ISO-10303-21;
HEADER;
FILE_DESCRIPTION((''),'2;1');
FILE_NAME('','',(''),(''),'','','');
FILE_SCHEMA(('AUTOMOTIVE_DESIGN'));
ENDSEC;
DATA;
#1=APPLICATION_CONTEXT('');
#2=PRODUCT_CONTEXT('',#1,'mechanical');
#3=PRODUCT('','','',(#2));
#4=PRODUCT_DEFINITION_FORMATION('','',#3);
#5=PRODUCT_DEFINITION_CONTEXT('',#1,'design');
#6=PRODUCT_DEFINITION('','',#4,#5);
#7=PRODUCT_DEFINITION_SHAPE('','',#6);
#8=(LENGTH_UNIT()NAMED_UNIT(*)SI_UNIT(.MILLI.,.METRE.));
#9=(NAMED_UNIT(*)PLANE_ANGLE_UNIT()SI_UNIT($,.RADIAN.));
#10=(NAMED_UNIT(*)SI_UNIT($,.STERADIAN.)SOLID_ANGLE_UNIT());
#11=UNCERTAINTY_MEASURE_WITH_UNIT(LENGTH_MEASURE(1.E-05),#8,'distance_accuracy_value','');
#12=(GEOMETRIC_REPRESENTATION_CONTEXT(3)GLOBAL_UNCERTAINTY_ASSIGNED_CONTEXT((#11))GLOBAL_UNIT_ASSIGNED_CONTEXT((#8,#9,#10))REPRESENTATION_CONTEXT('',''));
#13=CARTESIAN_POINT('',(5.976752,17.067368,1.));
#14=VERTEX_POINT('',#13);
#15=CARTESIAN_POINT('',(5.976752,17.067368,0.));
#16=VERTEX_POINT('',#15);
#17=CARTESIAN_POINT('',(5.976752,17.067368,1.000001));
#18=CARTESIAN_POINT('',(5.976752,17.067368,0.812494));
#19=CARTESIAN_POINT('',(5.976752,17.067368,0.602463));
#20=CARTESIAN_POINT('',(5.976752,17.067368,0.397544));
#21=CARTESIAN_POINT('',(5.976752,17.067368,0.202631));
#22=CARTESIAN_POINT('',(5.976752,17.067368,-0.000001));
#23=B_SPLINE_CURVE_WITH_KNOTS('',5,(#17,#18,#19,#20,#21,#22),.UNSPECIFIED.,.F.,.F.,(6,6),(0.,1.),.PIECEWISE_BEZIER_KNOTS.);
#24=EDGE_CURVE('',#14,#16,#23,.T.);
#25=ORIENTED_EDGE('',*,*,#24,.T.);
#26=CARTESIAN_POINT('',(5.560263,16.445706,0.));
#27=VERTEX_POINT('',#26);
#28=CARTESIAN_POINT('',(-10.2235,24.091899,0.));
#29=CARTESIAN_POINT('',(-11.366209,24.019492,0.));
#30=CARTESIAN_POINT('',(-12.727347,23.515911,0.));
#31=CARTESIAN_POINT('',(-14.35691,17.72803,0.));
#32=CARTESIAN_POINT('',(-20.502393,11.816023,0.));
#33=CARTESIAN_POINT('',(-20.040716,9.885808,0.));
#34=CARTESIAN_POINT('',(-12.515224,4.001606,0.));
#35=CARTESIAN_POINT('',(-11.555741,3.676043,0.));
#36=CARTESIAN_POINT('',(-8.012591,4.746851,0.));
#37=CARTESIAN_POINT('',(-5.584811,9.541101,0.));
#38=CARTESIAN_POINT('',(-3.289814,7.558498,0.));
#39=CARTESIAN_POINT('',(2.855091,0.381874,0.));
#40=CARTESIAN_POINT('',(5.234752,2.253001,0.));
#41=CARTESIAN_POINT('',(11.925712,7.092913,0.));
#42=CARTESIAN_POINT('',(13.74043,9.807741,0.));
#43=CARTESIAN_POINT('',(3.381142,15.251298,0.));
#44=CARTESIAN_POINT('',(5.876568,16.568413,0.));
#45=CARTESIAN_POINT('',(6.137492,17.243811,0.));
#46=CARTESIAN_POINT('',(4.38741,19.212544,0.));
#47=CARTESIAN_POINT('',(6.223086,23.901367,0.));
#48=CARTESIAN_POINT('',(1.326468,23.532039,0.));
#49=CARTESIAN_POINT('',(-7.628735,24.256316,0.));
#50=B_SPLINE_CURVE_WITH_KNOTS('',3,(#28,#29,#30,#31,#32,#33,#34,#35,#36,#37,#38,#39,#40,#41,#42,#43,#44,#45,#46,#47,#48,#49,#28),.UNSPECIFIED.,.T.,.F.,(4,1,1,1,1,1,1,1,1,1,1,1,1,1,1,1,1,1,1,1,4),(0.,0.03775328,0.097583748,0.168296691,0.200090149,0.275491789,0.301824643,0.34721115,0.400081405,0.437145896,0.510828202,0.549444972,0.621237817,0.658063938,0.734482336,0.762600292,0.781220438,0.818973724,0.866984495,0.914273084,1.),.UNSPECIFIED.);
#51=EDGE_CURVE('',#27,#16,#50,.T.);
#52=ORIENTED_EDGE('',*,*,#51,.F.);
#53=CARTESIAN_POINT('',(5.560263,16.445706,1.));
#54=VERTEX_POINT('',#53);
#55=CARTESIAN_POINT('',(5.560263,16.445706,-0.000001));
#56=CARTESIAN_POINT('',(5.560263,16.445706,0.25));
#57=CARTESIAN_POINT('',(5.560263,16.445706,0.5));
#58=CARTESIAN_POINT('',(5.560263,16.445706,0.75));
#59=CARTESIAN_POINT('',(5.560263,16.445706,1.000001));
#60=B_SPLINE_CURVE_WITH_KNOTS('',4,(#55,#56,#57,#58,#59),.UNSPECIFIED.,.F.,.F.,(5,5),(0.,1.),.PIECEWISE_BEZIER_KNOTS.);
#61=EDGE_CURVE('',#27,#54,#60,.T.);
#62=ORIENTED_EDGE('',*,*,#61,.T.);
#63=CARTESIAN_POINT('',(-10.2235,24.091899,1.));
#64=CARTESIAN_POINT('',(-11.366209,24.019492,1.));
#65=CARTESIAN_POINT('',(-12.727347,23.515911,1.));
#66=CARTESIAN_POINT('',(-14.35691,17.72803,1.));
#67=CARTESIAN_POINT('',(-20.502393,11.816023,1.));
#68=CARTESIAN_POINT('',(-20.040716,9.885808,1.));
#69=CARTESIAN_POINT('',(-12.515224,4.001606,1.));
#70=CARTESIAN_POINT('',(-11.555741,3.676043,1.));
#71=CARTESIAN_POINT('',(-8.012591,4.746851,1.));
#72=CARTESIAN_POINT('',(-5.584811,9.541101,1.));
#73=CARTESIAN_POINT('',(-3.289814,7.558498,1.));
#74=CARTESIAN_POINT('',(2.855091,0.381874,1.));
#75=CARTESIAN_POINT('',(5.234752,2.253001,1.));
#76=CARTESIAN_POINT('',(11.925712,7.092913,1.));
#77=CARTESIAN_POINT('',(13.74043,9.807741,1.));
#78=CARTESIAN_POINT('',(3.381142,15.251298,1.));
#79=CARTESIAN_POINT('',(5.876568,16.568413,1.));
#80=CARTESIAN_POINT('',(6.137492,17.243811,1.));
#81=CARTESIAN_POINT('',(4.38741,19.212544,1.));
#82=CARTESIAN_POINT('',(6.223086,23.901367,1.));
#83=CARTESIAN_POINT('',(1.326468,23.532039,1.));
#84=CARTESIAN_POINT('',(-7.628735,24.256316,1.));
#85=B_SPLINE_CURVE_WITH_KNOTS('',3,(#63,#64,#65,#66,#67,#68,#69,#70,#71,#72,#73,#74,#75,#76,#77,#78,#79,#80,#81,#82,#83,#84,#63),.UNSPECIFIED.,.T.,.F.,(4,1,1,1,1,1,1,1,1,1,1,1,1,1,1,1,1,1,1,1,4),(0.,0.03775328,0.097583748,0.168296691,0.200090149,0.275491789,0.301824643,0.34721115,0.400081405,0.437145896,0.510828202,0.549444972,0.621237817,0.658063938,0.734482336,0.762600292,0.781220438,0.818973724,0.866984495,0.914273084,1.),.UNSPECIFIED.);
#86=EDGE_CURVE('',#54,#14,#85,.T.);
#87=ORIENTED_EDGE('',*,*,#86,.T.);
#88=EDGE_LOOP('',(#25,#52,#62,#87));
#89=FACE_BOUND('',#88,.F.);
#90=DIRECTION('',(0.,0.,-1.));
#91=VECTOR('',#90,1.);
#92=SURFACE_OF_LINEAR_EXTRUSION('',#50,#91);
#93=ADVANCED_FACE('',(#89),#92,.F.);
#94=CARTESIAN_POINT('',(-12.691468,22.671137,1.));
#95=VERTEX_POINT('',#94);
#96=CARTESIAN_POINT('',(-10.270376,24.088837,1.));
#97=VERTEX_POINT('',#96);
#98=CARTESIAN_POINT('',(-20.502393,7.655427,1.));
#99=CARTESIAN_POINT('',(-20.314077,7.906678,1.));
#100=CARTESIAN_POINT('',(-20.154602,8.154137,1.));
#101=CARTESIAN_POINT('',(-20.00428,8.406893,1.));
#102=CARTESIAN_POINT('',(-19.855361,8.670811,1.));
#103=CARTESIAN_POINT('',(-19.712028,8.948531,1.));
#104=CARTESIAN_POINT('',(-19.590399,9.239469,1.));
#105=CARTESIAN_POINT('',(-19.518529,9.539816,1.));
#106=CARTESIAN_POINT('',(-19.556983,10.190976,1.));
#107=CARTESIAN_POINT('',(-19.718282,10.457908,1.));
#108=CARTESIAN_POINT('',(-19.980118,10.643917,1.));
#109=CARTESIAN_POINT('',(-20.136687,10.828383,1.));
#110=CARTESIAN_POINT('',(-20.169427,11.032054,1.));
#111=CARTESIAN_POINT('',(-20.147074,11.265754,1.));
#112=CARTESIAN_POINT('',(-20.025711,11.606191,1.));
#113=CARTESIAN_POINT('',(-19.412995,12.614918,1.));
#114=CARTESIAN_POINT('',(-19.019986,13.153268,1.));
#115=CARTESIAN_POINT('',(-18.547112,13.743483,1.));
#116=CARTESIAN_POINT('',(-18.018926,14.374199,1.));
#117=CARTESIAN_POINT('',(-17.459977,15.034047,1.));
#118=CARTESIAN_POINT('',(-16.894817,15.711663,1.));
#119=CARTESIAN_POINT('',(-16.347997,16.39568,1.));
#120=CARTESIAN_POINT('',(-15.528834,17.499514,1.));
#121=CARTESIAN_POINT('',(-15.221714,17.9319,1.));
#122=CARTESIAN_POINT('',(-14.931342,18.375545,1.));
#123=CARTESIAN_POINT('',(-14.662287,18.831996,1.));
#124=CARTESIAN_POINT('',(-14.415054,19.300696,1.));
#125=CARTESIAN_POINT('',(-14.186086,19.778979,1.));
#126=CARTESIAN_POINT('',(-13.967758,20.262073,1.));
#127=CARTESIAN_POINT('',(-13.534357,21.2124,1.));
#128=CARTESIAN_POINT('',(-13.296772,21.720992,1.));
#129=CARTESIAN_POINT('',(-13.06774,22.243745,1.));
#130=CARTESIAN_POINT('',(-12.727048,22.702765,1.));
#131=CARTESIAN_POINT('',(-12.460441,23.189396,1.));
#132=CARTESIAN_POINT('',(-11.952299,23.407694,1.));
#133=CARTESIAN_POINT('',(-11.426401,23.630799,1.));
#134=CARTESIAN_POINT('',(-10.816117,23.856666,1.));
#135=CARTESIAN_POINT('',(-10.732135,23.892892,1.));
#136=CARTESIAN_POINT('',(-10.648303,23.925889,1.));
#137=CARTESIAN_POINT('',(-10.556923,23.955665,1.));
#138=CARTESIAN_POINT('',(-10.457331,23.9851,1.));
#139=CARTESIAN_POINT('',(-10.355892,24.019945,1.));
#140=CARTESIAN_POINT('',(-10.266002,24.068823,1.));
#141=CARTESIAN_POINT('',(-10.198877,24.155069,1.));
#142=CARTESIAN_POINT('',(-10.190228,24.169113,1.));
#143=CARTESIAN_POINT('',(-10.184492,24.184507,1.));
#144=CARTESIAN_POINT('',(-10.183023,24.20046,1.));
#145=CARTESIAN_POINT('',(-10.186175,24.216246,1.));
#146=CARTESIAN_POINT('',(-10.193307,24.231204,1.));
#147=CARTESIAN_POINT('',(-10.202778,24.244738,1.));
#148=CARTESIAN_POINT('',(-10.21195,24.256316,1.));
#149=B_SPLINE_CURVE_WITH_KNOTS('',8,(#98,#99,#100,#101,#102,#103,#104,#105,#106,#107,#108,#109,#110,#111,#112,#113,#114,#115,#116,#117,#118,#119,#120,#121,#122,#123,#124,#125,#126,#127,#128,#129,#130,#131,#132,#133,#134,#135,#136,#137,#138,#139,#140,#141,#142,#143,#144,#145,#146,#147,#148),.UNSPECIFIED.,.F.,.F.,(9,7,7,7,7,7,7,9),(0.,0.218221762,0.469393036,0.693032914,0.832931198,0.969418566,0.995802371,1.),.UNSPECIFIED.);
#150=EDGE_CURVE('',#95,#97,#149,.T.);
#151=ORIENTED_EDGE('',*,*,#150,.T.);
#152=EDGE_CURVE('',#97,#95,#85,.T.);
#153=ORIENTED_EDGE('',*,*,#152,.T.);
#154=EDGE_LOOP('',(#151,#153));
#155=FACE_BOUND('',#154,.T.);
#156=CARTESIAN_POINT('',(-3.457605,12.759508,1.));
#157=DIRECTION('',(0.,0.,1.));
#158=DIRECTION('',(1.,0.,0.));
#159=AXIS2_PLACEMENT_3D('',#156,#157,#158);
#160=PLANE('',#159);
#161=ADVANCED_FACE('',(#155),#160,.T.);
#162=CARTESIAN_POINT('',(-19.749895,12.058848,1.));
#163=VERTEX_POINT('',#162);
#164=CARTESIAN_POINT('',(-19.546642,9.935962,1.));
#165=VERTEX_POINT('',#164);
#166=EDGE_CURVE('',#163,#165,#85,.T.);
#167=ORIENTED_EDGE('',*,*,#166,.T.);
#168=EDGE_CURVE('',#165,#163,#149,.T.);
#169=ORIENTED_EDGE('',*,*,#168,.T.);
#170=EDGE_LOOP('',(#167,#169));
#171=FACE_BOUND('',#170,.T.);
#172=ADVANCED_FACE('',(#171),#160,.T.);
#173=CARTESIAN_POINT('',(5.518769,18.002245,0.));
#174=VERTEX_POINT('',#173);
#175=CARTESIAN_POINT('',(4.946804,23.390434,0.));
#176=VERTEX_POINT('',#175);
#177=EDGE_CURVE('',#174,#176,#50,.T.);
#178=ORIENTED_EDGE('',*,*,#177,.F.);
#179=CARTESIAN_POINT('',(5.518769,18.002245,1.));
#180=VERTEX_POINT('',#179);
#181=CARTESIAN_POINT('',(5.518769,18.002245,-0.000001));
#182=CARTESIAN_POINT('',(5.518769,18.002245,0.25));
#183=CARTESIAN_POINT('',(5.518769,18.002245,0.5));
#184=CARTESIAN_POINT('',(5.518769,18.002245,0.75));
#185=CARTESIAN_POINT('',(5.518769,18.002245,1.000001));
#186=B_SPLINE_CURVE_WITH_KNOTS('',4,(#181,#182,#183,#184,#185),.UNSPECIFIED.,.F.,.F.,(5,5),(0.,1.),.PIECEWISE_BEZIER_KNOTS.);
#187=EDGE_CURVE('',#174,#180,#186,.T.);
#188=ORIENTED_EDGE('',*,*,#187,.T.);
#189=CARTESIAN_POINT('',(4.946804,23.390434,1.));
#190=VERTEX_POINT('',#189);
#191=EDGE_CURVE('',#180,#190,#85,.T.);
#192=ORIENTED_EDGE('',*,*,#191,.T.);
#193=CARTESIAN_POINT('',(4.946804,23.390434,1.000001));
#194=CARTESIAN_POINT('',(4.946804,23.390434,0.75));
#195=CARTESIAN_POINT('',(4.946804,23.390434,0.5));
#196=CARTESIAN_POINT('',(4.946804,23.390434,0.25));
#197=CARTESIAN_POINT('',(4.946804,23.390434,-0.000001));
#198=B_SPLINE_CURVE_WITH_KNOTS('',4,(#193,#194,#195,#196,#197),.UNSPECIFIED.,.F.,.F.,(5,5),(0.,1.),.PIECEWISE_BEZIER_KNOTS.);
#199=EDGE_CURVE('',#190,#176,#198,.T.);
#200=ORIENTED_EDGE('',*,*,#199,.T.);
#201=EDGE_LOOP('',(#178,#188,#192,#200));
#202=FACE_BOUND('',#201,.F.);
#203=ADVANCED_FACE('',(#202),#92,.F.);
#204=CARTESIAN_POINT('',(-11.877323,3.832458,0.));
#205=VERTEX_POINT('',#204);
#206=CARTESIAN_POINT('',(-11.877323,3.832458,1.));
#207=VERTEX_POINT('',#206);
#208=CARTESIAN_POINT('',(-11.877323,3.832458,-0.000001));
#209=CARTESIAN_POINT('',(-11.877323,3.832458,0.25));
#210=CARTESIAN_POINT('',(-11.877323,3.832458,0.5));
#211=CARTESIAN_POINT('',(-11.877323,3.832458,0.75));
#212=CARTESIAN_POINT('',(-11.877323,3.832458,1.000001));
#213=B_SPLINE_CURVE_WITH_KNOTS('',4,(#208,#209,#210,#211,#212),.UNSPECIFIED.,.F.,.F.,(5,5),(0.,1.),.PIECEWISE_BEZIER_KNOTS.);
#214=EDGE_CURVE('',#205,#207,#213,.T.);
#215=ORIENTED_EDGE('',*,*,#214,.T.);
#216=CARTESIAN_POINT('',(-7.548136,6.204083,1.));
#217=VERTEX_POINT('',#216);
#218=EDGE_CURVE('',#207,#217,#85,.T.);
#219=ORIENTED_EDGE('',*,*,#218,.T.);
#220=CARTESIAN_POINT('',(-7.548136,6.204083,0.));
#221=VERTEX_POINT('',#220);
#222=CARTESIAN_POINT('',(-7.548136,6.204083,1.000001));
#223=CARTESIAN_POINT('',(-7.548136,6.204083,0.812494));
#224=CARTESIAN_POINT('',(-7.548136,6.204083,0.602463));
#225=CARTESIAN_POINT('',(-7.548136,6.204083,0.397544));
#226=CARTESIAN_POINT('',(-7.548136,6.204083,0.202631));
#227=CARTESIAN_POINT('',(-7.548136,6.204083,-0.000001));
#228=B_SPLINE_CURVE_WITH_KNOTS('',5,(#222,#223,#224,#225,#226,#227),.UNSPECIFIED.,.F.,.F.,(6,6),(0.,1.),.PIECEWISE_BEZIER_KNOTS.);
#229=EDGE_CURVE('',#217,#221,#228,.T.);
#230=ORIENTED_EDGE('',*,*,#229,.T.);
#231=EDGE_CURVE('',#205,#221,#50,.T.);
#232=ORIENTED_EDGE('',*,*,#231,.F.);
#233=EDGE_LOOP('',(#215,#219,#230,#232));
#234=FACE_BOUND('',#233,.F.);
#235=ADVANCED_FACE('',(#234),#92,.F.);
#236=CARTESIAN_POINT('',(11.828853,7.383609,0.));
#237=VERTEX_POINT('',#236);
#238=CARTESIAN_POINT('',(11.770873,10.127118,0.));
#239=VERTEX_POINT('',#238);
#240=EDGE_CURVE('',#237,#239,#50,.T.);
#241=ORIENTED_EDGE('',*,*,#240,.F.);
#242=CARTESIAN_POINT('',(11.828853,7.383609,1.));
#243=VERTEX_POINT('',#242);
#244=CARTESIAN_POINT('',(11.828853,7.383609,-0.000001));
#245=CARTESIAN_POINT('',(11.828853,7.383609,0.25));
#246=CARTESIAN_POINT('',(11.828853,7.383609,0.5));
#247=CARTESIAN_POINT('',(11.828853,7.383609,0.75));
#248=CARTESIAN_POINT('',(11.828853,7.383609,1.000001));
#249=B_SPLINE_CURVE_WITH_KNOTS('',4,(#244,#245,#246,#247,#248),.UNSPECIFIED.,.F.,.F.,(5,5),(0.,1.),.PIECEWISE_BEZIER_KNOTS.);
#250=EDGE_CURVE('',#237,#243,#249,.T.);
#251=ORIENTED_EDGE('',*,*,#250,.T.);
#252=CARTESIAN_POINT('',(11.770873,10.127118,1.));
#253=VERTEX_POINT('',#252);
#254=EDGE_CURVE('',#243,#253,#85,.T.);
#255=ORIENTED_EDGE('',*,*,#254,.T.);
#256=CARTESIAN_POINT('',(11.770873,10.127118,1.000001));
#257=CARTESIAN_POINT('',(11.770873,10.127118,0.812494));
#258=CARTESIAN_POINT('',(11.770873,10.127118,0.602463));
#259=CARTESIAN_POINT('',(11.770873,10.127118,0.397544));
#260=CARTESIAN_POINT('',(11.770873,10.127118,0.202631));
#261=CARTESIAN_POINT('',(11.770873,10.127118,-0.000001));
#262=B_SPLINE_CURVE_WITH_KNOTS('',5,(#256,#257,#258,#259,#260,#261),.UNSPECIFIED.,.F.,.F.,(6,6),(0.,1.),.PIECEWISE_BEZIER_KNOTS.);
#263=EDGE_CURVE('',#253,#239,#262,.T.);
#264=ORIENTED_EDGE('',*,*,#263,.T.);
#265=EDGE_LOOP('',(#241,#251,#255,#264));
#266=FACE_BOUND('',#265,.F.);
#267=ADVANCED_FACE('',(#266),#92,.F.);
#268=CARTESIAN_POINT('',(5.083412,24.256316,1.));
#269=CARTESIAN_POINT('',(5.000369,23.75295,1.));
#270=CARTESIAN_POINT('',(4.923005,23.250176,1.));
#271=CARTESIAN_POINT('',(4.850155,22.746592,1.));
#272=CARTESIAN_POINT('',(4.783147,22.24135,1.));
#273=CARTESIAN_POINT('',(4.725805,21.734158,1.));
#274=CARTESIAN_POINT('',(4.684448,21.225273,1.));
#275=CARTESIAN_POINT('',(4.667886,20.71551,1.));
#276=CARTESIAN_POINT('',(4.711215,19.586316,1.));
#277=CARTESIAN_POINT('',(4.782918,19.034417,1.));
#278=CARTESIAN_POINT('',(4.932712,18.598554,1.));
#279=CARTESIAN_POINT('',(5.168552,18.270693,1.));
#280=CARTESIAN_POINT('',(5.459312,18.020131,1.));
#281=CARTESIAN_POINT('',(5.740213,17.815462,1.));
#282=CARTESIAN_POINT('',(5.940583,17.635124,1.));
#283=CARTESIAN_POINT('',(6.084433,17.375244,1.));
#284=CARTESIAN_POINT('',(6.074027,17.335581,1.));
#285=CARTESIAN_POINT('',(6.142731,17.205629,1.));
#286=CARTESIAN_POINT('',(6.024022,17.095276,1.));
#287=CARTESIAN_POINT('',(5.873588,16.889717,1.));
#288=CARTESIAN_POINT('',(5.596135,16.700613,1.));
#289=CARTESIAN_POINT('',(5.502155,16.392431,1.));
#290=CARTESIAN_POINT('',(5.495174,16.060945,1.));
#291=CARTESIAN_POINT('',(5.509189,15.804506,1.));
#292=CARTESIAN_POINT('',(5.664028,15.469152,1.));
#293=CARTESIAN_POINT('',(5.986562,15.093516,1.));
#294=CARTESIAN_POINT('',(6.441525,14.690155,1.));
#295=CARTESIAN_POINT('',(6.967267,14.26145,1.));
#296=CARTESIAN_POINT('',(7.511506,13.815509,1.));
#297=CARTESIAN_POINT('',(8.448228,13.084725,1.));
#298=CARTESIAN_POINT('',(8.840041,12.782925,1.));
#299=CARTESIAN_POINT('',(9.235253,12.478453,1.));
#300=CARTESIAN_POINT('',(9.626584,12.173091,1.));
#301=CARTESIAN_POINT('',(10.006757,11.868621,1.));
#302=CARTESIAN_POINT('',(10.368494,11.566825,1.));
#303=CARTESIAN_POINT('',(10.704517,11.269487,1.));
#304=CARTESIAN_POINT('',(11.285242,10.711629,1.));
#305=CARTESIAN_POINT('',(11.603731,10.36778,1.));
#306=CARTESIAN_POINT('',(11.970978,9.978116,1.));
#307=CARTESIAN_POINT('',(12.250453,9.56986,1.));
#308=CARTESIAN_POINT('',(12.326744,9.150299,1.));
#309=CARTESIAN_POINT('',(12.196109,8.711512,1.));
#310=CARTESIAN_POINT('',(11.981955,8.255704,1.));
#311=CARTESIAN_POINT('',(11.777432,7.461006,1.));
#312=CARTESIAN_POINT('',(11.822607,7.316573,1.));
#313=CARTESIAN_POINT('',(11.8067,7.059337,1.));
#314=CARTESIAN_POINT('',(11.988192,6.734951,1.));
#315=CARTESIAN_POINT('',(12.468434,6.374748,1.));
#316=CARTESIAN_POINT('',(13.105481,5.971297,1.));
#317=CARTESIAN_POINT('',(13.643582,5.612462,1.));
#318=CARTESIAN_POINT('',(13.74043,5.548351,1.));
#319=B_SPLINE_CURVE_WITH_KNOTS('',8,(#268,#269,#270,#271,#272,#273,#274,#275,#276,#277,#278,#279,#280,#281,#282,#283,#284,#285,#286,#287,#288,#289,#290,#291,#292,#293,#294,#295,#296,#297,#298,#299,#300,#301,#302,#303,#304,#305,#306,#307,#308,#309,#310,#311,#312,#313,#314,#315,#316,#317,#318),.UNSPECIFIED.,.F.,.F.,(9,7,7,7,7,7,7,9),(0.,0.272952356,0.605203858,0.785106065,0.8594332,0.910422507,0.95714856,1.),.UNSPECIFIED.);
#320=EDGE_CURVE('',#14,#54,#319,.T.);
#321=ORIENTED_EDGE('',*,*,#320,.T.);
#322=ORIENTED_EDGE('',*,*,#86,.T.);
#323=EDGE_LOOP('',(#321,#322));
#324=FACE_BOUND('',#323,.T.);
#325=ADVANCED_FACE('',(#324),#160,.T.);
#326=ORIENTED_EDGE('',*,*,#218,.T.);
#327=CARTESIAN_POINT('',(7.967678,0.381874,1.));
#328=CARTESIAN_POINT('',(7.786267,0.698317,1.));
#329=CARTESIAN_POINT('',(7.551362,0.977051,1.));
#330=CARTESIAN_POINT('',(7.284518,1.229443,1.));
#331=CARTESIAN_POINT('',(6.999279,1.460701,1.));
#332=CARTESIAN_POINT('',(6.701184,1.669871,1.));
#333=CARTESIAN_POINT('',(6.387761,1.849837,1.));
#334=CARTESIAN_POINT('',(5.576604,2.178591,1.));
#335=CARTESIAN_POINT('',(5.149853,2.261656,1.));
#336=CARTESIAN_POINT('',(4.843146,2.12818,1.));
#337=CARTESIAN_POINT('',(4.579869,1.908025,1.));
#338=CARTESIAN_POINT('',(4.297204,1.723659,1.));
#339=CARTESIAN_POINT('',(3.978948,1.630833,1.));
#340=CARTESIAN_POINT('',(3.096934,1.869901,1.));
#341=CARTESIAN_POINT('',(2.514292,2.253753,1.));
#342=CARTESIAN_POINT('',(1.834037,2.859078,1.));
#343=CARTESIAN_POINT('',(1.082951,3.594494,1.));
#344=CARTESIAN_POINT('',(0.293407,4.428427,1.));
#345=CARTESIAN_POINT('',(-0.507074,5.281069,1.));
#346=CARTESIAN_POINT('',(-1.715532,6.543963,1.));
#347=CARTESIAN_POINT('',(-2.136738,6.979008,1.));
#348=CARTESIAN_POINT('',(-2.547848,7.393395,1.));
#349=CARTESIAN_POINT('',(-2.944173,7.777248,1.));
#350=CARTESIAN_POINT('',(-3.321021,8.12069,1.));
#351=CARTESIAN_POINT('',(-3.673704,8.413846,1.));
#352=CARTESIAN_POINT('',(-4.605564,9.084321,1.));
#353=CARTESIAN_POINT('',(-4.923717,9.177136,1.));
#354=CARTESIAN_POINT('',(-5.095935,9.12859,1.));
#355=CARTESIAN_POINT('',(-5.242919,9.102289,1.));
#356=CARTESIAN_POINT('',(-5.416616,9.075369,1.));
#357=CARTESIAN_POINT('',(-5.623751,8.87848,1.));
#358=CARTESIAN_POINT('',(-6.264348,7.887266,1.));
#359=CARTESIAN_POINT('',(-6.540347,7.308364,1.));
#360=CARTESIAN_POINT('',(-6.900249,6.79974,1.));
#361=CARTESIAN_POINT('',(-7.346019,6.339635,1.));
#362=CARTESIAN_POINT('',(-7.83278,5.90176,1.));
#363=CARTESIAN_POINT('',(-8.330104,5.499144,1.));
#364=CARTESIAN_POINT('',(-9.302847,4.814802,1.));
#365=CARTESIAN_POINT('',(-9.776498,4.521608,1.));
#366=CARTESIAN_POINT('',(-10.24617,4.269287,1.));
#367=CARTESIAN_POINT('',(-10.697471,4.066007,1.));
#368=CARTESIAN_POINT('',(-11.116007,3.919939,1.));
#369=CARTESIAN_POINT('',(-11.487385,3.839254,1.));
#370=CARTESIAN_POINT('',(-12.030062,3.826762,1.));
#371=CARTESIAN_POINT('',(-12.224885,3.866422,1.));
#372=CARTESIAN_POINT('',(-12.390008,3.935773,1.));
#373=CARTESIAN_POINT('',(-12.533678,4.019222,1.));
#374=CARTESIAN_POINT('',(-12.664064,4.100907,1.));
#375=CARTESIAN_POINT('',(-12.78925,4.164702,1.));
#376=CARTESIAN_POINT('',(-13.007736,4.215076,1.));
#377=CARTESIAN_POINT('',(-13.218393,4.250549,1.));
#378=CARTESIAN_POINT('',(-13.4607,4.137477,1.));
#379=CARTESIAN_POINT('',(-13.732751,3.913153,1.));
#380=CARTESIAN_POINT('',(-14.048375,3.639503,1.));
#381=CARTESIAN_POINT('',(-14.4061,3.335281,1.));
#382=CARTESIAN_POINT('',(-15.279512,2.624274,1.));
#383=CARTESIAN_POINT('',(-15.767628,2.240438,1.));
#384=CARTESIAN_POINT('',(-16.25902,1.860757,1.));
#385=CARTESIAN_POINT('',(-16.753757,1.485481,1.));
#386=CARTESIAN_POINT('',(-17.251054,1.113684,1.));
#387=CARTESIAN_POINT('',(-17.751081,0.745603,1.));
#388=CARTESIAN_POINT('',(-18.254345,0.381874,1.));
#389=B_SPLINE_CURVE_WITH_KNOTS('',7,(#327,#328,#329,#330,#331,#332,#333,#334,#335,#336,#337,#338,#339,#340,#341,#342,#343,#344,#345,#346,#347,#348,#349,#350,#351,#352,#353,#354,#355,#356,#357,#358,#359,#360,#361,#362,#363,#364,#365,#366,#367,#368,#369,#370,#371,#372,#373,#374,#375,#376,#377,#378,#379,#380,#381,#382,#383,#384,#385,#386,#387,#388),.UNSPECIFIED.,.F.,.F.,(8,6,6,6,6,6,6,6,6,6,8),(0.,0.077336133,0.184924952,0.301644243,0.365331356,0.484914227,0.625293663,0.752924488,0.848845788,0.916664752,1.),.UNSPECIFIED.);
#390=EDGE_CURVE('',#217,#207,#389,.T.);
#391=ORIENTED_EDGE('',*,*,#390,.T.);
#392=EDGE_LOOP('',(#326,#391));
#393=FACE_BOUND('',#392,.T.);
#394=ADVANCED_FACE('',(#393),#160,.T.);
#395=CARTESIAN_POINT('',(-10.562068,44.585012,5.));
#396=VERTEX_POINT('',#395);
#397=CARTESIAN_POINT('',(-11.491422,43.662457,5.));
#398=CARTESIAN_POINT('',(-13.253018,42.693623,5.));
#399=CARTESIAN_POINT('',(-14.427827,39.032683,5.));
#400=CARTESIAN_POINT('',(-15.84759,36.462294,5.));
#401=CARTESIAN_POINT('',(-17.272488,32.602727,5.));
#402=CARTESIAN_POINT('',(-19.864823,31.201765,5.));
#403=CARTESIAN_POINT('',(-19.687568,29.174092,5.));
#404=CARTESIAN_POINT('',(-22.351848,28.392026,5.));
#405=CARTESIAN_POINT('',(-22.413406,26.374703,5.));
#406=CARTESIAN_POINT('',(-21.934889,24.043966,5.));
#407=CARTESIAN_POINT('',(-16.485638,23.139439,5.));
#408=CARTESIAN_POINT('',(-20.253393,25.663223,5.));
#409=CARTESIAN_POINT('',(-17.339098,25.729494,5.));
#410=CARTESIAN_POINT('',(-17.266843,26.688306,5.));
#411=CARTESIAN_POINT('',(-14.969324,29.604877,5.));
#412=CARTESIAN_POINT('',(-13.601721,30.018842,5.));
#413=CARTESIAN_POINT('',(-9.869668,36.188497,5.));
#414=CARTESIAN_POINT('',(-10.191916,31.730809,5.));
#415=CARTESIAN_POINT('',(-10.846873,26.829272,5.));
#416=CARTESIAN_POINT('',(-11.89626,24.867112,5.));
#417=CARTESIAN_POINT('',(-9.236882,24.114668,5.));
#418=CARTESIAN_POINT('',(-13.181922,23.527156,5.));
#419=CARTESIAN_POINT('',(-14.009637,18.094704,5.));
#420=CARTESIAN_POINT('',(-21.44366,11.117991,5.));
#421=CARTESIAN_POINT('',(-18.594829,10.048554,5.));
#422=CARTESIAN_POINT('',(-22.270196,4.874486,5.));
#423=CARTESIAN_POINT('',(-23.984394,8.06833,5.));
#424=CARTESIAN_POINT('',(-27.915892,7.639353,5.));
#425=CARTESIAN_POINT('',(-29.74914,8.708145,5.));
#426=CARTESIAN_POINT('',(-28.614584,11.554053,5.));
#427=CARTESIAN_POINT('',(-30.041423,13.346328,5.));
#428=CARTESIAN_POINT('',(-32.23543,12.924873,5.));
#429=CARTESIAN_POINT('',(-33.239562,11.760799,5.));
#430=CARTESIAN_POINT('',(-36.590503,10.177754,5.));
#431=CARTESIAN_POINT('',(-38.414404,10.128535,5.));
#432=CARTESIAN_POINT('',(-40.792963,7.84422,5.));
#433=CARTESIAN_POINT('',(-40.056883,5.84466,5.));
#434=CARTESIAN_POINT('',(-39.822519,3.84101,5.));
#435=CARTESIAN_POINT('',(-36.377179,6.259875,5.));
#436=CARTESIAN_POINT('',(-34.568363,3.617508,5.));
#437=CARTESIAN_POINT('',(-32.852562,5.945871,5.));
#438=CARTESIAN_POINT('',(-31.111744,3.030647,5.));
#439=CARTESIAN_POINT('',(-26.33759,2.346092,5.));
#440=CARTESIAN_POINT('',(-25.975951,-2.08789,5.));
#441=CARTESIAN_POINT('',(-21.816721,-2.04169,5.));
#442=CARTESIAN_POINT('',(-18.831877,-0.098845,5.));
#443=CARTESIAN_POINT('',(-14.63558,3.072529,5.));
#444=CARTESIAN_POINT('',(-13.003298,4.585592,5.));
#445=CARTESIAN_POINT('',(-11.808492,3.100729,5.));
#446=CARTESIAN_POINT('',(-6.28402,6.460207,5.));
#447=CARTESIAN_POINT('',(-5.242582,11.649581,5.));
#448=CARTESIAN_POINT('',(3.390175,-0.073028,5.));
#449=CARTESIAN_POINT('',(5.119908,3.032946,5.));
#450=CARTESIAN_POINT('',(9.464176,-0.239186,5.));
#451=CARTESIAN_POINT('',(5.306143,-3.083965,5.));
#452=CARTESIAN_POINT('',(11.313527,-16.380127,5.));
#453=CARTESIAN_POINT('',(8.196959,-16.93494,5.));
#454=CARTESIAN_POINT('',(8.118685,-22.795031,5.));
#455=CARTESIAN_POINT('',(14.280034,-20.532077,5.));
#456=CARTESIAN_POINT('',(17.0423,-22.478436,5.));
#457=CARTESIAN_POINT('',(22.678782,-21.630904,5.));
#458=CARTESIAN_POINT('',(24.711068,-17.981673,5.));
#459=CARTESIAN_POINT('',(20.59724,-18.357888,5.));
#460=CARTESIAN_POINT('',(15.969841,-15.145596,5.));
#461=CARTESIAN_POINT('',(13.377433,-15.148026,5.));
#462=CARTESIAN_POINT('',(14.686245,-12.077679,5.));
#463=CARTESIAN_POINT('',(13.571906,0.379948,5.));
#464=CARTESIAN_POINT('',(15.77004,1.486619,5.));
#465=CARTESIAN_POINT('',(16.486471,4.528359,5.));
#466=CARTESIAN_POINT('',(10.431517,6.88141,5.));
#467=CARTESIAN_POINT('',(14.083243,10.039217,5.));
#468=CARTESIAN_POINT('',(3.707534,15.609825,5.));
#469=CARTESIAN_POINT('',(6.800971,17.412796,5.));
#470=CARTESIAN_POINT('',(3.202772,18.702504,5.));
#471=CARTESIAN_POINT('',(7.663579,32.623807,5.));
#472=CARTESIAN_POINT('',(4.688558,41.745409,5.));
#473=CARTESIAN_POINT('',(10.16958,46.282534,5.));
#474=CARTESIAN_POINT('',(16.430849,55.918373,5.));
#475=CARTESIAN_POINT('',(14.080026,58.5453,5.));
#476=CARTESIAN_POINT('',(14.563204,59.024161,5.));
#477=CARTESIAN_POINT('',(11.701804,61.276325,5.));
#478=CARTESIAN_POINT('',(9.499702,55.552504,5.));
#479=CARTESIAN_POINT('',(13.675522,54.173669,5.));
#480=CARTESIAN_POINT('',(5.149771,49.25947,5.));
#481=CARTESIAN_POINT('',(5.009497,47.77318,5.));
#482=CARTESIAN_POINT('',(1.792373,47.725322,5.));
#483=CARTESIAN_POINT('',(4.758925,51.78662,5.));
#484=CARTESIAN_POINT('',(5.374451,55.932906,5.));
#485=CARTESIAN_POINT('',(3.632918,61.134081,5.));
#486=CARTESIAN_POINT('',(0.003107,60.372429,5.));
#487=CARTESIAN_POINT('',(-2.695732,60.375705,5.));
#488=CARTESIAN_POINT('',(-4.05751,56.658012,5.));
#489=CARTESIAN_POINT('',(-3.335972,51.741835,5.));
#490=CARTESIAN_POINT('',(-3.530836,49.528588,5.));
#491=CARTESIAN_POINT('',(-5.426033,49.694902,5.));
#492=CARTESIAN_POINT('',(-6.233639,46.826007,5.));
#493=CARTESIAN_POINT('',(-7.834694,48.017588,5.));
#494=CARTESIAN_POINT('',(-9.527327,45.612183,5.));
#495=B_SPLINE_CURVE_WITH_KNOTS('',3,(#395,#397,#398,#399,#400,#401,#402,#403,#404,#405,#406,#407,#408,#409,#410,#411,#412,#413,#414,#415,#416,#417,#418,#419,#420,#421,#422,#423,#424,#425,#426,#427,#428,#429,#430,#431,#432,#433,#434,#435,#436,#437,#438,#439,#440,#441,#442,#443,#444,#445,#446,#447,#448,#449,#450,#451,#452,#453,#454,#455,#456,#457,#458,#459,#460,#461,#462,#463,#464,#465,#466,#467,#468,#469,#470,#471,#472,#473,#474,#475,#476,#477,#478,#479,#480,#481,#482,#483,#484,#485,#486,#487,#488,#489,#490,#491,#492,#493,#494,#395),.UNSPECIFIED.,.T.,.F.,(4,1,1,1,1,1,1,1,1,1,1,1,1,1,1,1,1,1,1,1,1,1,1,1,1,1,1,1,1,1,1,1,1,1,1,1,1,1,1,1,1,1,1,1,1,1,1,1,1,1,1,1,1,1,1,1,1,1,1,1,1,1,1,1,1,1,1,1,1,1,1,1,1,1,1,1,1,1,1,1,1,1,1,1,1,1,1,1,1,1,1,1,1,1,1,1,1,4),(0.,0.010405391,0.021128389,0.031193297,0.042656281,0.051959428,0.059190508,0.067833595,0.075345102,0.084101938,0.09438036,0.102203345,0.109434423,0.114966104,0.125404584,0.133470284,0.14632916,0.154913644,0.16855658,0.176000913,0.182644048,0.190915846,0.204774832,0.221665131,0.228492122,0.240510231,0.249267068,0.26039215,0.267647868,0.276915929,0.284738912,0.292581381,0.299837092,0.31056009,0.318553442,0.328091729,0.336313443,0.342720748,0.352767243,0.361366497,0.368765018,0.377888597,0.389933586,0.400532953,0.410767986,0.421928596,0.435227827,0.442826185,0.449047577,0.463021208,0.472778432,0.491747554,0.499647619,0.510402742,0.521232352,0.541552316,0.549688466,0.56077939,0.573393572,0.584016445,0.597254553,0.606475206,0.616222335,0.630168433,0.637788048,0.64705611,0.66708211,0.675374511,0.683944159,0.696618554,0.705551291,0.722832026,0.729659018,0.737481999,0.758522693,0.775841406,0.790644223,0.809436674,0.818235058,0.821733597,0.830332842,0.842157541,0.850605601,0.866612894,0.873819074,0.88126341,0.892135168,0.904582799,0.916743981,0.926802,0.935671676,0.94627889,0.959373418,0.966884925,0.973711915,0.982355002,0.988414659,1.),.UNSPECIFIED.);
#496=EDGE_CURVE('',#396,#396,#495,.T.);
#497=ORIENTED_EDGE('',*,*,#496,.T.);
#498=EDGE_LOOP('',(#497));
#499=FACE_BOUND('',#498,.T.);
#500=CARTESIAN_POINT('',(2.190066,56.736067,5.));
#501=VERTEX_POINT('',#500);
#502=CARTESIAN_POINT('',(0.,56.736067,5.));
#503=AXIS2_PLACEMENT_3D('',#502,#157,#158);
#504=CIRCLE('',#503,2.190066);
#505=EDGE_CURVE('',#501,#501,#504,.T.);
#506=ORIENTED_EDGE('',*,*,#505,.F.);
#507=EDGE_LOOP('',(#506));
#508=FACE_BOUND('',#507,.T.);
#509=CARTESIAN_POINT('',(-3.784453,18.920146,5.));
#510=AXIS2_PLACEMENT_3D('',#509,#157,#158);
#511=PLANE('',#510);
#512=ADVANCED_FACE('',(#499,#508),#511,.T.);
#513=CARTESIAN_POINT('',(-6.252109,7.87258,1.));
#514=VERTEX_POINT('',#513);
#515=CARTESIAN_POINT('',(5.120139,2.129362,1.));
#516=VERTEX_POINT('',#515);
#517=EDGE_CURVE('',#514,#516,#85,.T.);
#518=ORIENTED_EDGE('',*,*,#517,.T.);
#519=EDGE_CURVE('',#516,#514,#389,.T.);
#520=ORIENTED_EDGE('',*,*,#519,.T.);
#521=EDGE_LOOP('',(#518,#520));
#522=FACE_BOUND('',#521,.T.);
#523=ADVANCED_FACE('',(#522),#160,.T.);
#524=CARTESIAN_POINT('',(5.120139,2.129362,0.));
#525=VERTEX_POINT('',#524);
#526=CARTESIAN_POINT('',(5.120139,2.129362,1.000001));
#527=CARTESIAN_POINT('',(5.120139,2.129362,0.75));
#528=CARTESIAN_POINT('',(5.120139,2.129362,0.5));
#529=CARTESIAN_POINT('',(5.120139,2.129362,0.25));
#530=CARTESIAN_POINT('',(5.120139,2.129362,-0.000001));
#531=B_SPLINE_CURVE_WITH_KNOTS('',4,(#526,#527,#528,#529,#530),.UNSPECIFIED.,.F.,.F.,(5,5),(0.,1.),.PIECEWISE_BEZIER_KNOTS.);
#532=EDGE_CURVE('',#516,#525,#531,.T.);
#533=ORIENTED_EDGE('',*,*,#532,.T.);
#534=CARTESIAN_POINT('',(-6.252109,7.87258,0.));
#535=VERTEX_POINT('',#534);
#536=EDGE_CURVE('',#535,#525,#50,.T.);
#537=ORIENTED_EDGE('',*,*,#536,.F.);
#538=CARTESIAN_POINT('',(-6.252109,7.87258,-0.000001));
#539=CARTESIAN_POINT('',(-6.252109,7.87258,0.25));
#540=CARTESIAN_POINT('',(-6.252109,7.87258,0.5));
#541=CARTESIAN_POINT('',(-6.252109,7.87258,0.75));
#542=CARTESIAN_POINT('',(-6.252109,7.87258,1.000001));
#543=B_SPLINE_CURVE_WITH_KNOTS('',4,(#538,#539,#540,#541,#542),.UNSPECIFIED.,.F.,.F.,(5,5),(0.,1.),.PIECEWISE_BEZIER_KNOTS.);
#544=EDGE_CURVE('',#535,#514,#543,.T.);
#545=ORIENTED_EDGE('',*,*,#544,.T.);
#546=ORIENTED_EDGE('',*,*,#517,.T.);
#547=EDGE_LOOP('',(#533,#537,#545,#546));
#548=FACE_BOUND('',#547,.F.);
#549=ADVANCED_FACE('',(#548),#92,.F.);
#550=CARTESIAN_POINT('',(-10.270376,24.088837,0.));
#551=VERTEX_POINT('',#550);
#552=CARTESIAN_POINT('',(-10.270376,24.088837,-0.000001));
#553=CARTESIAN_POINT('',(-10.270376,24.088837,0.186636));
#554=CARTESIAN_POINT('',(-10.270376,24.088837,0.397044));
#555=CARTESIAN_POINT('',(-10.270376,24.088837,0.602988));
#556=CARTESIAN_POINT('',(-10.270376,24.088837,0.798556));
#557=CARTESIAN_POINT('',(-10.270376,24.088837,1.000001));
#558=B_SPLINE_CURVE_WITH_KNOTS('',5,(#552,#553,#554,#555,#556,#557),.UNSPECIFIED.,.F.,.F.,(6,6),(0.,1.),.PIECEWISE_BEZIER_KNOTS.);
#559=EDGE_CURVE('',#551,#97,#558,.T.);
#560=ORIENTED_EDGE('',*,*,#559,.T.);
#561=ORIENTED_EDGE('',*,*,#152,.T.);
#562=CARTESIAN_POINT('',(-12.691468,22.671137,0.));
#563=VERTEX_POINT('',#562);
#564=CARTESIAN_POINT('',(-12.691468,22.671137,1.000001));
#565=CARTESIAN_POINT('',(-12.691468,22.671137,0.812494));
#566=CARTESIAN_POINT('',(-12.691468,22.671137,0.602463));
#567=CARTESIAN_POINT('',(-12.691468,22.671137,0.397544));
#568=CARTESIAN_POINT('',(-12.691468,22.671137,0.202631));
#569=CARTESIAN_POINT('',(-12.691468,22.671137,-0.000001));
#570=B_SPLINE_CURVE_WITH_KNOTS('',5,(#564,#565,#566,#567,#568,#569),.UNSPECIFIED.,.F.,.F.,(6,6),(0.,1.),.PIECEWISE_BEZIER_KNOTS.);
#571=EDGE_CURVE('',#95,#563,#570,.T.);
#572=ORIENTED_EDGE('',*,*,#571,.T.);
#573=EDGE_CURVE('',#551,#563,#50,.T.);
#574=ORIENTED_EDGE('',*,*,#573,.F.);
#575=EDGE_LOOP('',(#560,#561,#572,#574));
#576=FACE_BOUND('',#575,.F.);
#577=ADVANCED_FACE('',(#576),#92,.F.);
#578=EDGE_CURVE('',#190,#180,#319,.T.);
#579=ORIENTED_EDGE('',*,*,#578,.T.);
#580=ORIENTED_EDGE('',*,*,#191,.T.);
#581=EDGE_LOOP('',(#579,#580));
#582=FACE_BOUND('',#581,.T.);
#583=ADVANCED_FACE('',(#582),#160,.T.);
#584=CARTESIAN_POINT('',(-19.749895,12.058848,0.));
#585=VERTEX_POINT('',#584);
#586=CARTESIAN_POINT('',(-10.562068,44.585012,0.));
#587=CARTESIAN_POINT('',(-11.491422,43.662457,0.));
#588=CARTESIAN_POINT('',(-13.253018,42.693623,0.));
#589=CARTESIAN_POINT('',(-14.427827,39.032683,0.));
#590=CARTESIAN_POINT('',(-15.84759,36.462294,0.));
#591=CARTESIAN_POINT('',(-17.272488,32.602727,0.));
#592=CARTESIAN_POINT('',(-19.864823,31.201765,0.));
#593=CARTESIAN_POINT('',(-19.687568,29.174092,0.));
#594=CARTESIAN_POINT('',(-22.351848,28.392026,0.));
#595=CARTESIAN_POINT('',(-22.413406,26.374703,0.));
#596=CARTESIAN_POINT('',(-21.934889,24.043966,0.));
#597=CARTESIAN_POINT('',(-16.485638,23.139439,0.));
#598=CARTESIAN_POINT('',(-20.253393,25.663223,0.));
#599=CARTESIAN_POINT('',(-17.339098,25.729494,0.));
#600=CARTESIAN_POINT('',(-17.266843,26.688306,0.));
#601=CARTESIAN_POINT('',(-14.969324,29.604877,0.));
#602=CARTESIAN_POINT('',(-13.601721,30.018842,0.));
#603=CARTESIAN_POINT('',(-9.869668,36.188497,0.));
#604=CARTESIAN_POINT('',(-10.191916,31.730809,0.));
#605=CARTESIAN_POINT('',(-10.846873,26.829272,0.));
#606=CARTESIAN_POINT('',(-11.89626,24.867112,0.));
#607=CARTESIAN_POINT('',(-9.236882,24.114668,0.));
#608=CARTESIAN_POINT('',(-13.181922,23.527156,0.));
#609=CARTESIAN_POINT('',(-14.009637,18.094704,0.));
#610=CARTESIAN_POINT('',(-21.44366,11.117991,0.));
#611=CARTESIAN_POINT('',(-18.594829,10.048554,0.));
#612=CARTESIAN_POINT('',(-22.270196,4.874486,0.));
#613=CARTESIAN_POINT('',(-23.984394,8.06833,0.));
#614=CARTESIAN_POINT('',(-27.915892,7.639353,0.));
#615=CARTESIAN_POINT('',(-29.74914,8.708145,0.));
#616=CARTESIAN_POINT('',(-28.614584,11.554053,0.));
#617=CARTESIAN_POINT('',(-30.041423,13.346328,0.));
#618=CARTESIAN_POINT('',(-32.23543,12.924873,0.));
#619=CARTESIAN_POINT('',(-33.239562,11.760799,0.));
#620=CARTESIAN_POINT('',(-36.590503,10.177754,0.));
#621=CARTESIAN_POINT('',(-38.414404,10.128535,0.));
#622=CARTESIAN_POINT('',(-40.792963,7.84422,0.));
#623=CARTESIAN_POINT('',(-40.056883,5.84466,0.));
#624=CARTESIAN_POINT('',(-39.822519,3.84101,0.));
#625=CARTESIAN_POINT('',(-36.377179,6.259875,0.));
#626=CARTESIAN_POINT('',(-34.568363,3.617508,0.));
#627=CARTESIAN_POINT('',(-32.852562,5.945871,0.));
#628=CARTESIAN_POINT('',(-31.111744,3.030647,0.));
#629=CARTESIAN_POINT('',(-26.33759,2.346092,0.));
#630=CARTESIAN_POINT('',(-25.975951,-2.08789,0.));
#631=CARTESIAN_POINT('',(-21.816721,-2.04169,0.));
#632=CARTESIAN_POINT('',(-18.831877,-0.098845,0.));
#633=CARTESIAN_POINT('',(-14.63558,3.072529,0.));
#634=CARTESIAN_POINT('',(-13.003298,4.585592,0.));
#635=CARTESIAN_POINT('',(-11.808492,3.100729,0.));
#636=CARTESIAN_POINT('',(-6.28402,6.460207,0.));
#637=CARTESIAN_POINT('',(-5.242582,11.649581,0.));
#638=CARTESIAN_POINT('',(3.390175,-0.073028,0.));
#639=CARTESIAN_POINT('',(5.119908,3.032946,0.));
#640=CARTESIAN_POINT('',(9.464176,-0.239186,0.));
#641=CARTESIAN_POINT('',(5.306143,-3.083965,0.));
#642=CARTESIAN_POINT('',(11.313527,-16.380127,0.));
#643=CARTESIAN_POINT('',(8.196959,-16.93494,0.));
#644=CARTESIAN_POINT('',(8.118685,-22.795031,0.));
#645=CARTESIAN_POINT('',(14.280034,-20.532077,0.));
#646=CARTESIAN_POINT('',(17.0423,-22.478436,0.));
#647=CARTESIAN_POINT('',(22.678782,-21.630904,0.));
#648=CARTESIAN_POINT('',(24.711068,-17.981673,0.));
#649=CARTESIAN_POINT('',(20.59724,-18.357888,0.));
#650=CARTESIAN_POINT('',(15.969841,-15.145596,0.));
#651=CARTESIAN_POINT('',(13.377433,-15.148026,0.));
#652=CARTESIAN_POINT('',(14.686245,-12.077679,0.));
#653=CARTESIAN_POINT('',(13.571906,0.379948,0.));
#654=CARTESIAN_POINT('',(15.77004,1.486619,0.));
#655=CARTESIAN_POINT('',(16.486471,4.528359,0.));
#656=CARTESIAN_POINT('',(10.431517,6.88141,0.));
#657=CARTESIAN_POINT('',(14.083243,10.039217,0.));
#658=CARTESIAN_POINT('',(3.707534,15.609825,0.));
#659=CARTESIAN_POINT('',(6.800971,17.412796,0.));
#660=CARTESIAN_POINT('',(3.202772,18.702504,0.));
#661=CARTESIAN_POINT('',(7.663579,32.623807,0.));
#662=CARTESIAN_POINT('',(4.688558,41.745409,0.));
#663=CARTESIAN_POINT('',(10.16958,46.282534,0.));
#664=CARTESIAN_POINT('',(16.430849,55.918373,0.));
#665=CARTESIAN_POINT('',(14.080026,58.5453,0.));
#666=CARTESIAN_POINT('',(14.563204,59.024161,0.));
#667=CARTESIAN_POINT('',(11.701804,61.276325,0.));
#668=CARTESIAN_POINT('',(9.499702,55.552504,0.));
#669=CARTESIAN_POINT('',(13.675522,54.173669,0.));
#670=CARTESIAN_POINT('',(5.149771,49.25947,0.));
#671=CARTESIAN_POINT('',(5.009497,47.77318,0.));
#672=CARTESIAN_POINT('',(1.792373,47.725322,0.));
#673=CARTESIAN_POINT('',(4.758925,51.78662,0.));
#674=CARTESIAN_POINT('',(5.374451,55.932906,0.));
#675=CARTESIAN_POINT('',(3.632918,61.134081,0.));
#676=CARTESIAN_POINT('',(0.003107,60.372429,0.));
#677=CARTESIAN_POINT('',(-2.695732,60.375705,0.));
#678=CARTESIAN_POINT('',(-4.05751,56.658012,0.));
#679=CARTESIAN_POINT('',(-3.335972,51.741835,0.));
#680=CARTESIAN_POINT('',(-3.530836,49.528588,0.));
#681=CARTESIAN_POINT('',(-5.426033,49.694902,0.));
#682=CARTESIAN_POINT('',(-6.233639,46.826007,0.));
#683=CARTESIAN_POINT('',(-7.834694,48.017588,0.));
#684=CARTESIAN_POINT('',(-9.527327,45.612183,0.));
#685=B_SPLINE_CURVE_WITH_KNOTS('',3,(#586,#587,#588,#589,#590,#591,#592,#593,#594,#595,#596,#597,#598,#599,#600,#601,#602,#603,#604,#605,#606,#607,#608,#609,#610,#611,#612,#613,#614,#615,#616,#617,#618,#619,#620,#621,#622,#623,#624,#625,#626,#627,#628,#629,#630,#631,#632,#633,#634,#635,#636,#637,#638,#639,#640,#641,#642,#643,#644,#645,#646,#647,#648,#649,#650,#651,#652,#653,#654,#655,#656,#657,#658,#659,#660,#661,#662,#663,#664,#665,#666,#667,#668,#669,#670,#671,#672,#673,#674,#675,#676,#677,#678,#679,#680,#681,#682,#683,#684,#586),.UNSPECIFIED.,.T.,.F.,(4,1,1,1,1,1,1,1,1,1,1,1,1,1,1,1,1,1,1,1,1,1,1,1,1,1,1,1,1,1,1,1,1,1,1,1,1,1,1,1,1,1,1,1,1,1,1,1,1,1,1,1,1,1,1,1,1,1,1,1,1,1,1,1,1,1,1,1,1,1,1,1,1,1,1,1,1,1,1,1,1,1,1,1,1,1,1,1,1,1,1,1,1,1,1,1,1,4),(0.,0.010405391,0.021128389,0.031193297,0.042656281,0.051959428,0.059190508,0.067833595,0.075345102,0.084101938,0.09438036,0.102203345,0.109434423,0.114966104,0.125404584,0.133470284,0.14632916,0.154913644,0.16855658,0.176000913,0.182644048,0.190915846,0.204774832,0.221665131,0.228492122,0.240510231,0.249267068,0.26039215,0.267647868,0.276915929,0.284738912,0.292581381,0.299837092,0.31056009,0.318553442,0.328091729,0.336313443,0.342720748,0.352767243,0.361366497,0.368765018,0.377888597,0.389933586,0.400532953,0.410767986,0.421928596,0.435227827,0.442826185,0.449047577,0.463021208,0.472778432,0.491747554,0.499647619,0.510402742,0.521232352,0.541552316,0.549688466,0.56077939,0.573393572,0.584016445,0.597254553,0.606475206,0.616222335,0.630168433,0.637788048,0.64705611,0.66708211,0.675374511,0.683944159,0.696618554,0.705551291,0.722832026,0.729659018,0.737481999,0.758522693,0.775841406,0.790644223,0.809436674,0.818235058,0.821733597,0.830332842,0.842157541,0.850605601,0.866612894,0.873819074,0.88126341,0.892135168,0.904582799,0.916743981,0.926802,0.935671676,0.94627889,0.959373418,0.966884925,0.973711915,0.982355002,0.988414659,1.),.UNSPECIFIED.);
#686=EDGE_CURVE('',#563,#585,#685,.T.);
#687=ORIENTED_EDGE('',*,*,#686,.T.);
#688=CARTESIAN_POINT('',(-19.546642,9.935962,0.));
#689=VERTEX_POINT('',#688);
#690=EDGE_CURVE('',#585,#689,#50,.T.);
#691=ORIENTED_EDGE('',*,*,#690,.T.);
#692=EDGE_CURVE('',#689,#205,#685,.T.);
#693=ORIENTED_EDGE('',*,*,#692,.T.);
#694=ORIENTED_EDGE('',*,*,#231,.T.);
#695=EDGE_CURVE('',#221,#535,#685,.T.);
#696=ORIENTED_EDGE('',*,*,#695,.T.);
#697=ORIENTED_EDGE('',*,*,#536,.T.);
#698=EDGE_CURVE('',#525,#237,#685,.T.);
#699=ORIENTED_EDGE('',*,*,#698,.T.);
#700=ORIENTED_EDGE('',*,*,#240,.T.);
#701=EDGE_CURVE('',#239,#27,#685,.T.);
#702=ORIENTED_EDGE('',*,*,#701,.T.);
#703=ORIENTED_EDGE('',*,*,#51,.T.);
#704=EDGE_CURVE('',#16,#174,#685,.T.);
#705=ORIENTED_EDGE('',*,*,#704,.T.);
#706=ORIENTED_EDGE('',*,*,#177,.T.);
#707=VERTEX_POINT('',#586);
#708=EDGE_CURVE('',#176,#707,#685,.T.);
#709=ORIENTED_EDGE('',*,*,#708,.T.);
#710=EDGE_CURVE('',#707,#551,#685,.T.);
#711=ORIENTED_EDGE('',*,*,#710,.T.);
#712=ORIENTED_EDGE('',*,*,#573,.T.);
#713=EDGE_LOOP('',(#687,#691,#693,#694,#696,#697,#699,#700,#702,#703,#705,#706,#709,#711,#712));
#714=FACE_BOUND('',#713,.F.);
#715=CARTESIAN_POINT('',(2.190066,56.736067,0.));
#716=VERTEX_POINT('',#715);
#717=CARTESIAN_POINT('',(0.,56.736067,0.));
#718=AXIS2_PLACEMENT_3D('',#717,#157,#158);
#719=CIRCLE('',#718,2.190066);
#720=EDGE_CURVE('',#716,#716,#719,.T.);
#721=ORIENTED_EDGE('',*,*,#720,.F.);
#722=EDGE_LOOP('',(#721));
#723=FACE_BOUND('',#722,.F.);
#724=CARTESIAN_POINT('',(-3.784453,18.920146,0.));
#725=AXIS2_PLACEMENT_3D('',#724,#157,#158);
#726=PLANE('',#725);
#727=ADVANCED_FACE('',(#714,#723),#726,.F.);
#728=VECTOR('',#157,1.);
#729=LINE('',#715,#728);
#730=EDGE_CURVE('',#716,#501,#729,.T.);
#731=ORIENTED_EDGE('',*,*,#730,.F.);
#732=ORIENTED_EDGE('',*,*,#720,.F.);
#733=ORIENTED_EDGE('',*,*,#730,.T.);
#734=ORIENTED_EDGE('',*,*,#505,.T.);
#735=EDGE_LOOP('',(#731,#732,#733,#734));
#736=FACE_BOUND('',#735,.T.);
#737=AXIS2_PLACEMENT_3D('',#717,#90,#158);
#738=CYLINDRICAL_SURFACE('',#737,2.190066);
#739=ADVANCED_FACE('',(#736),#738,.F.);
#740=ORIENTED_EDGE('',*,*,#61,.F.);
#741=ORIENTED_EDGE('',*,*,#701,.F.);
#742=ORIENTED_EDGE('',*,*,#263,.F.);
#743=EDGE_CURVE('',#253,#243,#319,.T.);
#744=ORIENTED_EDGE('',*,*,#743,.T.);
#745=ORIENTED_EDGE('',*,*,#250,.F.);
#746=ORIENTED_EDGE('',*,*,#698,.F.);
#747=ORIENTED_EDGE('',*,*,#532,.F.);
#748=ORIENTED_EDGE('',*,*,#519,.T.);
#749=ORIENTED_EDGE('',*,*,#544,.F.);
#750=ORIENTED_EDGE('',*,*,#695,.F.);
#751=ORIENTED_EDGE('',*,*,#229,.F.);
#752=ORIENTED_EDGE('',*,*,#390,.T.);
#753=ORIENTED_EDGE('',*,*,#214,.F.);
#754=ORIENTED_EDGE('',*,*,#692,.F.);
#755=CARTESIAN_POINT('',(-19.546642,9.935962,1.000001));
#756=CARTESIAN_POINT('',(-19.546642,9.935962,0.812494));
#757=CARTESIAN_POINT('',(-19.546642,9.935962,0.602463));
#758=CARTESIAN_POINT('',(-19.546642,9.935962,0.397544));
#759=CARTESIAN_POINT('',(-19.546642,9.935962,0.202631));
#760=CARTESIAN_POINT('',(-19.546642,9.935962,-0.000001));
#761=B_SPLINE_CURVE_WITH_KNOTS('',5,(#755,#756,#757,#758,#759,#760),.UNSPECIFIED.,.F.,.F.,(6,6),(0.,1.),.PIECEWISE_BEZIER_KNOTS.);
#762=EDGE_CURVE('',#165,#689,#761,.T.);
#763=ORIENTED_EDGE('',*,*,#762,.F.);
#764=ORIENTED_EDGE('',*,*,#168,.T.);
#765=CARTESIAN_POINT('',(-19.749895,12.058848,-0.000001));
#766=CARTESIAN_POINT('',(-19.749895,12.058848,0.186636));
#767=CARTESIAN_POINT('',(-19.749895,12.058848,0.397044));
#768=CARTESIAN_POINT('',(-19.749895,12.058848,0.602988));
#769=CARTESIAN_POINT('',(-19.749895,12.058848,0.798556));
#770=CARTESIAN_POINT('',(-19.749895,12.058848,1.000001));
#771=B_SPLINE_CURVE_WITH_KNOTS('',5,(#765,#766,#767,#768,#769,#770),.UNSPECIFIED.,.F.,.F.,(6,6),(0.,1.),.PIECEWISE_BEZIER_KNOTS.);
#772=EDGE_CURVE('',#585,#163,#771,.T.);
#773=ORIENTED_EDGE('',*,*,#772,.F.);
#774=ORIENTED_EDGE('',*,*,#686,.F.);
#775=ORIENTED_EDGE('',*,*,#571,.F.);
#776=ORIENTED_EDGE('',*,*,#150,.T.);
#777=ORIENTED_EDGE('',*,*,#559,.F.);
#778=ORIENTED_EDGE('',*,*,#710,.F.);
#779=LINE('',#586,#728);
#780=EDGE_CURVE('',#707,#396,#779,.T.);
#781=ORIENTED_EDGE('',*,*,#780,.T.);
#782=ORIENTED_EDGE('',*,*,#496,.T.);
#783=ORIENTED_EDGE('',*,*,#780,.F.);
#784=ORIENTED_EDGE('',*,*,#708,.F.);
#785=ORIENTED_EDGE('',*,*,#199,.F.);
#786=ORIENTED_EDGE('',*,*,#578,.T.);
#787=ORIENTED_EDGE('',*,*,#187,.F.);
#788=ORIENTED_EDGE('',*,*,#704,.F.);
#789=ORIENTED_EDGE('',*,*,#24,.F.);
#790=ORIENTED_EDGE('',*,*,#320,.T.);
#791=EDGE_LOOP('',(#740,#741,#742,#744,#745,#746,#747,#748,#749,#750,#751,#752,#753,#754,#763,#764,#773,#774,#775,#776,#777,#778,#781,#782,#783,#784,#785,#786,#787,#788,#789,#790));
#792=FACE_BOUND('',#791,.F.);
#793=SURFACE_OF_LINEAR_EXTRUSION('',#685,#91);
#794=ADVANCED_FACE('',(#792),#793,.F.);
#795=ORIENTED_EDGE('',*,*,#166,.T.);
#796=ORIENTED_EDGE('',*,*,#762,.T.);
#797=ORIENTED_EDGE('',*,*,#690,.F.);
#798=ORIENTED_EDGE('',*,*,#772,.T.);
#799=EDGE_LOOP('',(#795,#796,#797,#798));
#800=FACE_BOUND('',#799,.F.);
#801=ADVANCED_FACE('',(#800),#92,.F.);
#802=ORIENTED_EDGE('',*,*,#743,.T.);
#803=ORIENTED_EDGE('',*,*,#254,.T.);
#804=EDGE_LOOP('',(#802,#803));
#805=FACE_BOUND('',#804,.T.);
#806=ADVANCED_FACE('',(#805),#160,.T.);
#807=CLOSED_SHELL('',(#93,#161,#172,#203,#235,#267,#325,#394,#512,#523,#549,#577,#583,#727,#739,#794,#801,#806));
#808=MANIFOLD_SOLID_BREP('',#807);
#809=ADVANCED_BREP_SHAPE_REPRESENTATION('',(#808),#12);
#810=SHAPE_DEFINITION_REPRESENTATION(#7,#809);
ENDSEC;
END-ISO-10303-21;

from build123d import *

# Parameters (mm, degrees)
F0_R     = 2.1900662225
F1_DEPTH = 5
F3_DEPTH = 1


with BuildPart() as f1:
    # F0 (on Top) → F1 (new body)
    with BuildSketch(Plane.XY):
        with BuildLine():
            add(Edge.make_bspline(
                [(-10.5620678514, 44.5850118995), (-11.4914220688, 43.6624565502), (-13.2530179414, 42.6936230224), (-14.4278267521, 39.0326833618), (-15.8475902939, 36.4622942718), (-17.27248766, 32.6027272115), (-19.8648233743, 31.2017649263), (-19.6875680145, 29.1740919055), (-22.3518483536, 28.3920261941), (-22.4134058705, 26.374702937), (-21.934888951, 24.0439655614), (-16.4856375259, 23.1394390749), (-20.2533932658, 25.6632226435), (-17.3390983926, 25.7294941948), (-17.2668430814, 26.6883056457), (-14.9693236125, 29.6048765454), (-13.6017209113, 30.0188424195), (-9.8696684579, 36.1884972815), (-10.1919156632, 31.7308085548), (-10.8468734081, 26.8292715594), (-11.8962595413, 24.8671121651), (-9.2368817262, 24.1146683084), (-13.1819219913, 23.5271563895), (-14.0096370914, 18.0947043846), (-21.4436600557, 11.1179913375), (-18.5948286696, 10.0485540866), (-22.2701964663, 4.8744856299), (-23.9843936897, 8.0683302175), (-27.9158922864, 7.6393529658), (-29.7491397375, 8.7081448048), (-28.614583586, 11.5540534853), (-30.0414232806, 13.3463276661), (-32.2354299764, 12.9248731848), (-33.2395620775, 11.760799314), (-36.5905028112, 10.1777539294), (-38.4144043123, 10.128535256), (-40.7929633207, 7.8442196912), (-40.0568827639, 5.8446601365), (-39.8225188866, 3.8410098533), (-36.3771789841, 6.2598748049), (-34.5683632231, 3.6175075415), (-32.8525620354, 5.9458713057), (-31.1117442344, 3.0306467047), (-26.3375903532, 2.3460922778), (-25.9759509332, -2.0878903194), (-21.8167212485, -2.0416902278), (-18.8318771611, -0.0988452644), (-14.6355801377, 3.0725288054), (-13.0032976083, 4.5855918541), (-11.808492298, 3.1007290564), (-6.2840198233, 6.4602071935), (-5.242582058, 11.6495810139), (3.3901751596, -0.0730282004), (5.119908024, 3.0329463064), (9.4641755898, -0.2391858722), (5.3061428275, -3.08396548), (11.3135273486, -16.3801266989), (8.1969585719, -16.9349395179), (8.1186845159, -22.7950314517), (14.2800335074, -20.5320767315), (17.0422995476, -22.478436427), (22.6787820372, -21.6309044784), (24.7110675829, -17.9816734405), (20.5972395064, -18.3578882518), (15.9698406651, -15.1455961165), (13.3774334473, -15.1480262631), (14.6862447979, -12.077678827), (13.5719063565, 0.379947764), (15.7700403789, 1.4866186092), (16.4864706373, 4.5283587551), (10.4315173385, 6.8814096388), (14.08324311, 10.0392174859), (3.7075342521, 15.6098252076), (6.8009709908, 17.4127963314), (3.2027717447, 18.702503672), (7.6635789704, 32.6238067105), (4.6885582386, 41.7454094895), (10.1695798676, 46.2825342222), (16.4308488615, 55.9183727497), (14.0800256128, 58.5452998045), (14.5632043692, 59.0241609708), (11.7018041601, 61.2763251162), (9.4997019836, 55.5525038127), (13.6755224178, 54.1736693073), (5.1497708667, 49.2594696251), (5.0094969304, 47.773180242), (1.7923730033, 47.7253219009), (4.7589253842, 51.7866197988), (5.3744510546, 55.9329064672), (3.6329181509, 61.134080718), (0.0031071161, 60.3724290293), (-2.6957319751, 60.3757045653), (-4.0575103956, 56.658011826), (-3.3359719275, 51.7418353491), (-3.5308358011, 49.5285883158), (-5.4260333472, 49.6949021238), (-6.2336388636, 46.8260070558), (-7.8346941954, 48.0175876324), (-9.5273268195, 45.612183086), (-10.5620678514, 44.5850118995)],
                knots=[0, 0, 0, 0, 0.010405391, 0.0211283887, 0.0311932971, 0.0426562815, 0.0519594284, 0.0591905076, 0.0678335949, 0.0753451019, 0.084101938, 0.09438036, 0.1022033448, 0.1094344225, 0.1149661043, 0.1254045842, 0.1334702835, 0.1463291601, 0.1549136442, 0.1685565803, 0.1760009132, 0.1826440478, 0.1909158463, 0.2047748322, 0.2216651305, 0.2284921216, 0.2405102305, 0.2492670684, 0.26039215, 0.2676478681, 0.2769159285, 0.2847389118, 0.2925813812, 0.2998370924, 0.3105600902, 0.3185534418, 0.3280917291, 0.3363134425, 0.3427207476, 0.3527672433, 0.3613664974, 0.3687650178, 0.3778885966, 0.3899335864, 0.4005329527, 0.4107679858, 0.4219285965, 0.4352278271, 0.4428261854, 0.4490475768, 0.463021208, 0.4727784319, 0.4917475536, 0.4996476186, 0.5104027425, 0.521232352, 0.5415523164, 0.5496884658, 0.5607793896, 0.5733935717, 0.5840164448, 0.5972545525, 0.6064752065, 0.6162223346, 0.6301684327, 0.637788048, 0.64705611, 0.6670821102, 0.6753745107, 0.6839441588, 0.6966185545, 0.7055512912, 0.7228320263, 0.7296590182, 0.7374819993, 0.7585226933, 0.7758414065, 0.7906442229, 0.8094366735, 0.8182350576, 0.8217335975, 0.830332842, 0.8421575412, 0.850605601, 0.8666128938, 0.8738190745, 0.8812634103, 0.8921351682, 0.9045827989, 0.916743981, 0.926802, 0.935671676, 0.9462788895, 0.9593734182, 0.9668849246, 0.973711915, 0.9823550018, 0.9884146595, 1, 1, 1, 1], degree=3))
        make_face()
        with Locations((0, 56.7360669374)):
            Circle(F0_R, mode=Mode.SUBTRACT)
    extrude(amount=F1_DEPTH)

    # F2 (on Top) → F3 (join)
    with BuildSketch(Plane.XY):
        with BuildLine():
            add(Edge.make_bspline(
                [(-10.2235004306, 24.091899395), (-11.366209324, 24.0194917445), (-12.7273465537, 23.5159109608), (-14.3569098309, 17.7280295794), (-20.5023929742, 11.8160231015), (-20.0407155735, 9.8858080188), (-12.5152243336, 4.0016064437), (-11.5557406215, 3.6760432783), (-8.0125908302, 4.7468513714), (-5.5848114719, 9.5411012993), (-3.2898142321, 7.5584978154), (2.8550905301, 0.381873611), (5.2347515753, 2.2530006669), (11.9257120821, 7.092913447), (13.740429621, 9.8077407691), (3.3811422511, 15.2512982168), (5.8765682021, 16.5684133648), (6.1374919552, 17.2438111546), (4.3874096662, 19.2125437026), (6.223086462, 23.9013668789), (1.3264684225, 23.532039088), (-7.6287349359, 24.2563164867), (-10.2235004306, 24.091899395)],
                knots=[0, 0, 0, 0, 0.0377532803, 0.0975837484, 0.1682966908, 0.2000901489, 0.2754917887, 0.3018246431, 0.3472111496, 0.4000814053, 0.4371458961, 0.5108282016, 0.5494449715, 0.6212378172, 0.6580639383, 0.7344823356, 0.7626002919, 0.7812204379, 0.8189737237, 0.8669844954, 0.9142730842, 1, 1, 1, 1], degree=3))
        make_face()
    extrude(amount=F3_DEPTH)


solid = f1.part
